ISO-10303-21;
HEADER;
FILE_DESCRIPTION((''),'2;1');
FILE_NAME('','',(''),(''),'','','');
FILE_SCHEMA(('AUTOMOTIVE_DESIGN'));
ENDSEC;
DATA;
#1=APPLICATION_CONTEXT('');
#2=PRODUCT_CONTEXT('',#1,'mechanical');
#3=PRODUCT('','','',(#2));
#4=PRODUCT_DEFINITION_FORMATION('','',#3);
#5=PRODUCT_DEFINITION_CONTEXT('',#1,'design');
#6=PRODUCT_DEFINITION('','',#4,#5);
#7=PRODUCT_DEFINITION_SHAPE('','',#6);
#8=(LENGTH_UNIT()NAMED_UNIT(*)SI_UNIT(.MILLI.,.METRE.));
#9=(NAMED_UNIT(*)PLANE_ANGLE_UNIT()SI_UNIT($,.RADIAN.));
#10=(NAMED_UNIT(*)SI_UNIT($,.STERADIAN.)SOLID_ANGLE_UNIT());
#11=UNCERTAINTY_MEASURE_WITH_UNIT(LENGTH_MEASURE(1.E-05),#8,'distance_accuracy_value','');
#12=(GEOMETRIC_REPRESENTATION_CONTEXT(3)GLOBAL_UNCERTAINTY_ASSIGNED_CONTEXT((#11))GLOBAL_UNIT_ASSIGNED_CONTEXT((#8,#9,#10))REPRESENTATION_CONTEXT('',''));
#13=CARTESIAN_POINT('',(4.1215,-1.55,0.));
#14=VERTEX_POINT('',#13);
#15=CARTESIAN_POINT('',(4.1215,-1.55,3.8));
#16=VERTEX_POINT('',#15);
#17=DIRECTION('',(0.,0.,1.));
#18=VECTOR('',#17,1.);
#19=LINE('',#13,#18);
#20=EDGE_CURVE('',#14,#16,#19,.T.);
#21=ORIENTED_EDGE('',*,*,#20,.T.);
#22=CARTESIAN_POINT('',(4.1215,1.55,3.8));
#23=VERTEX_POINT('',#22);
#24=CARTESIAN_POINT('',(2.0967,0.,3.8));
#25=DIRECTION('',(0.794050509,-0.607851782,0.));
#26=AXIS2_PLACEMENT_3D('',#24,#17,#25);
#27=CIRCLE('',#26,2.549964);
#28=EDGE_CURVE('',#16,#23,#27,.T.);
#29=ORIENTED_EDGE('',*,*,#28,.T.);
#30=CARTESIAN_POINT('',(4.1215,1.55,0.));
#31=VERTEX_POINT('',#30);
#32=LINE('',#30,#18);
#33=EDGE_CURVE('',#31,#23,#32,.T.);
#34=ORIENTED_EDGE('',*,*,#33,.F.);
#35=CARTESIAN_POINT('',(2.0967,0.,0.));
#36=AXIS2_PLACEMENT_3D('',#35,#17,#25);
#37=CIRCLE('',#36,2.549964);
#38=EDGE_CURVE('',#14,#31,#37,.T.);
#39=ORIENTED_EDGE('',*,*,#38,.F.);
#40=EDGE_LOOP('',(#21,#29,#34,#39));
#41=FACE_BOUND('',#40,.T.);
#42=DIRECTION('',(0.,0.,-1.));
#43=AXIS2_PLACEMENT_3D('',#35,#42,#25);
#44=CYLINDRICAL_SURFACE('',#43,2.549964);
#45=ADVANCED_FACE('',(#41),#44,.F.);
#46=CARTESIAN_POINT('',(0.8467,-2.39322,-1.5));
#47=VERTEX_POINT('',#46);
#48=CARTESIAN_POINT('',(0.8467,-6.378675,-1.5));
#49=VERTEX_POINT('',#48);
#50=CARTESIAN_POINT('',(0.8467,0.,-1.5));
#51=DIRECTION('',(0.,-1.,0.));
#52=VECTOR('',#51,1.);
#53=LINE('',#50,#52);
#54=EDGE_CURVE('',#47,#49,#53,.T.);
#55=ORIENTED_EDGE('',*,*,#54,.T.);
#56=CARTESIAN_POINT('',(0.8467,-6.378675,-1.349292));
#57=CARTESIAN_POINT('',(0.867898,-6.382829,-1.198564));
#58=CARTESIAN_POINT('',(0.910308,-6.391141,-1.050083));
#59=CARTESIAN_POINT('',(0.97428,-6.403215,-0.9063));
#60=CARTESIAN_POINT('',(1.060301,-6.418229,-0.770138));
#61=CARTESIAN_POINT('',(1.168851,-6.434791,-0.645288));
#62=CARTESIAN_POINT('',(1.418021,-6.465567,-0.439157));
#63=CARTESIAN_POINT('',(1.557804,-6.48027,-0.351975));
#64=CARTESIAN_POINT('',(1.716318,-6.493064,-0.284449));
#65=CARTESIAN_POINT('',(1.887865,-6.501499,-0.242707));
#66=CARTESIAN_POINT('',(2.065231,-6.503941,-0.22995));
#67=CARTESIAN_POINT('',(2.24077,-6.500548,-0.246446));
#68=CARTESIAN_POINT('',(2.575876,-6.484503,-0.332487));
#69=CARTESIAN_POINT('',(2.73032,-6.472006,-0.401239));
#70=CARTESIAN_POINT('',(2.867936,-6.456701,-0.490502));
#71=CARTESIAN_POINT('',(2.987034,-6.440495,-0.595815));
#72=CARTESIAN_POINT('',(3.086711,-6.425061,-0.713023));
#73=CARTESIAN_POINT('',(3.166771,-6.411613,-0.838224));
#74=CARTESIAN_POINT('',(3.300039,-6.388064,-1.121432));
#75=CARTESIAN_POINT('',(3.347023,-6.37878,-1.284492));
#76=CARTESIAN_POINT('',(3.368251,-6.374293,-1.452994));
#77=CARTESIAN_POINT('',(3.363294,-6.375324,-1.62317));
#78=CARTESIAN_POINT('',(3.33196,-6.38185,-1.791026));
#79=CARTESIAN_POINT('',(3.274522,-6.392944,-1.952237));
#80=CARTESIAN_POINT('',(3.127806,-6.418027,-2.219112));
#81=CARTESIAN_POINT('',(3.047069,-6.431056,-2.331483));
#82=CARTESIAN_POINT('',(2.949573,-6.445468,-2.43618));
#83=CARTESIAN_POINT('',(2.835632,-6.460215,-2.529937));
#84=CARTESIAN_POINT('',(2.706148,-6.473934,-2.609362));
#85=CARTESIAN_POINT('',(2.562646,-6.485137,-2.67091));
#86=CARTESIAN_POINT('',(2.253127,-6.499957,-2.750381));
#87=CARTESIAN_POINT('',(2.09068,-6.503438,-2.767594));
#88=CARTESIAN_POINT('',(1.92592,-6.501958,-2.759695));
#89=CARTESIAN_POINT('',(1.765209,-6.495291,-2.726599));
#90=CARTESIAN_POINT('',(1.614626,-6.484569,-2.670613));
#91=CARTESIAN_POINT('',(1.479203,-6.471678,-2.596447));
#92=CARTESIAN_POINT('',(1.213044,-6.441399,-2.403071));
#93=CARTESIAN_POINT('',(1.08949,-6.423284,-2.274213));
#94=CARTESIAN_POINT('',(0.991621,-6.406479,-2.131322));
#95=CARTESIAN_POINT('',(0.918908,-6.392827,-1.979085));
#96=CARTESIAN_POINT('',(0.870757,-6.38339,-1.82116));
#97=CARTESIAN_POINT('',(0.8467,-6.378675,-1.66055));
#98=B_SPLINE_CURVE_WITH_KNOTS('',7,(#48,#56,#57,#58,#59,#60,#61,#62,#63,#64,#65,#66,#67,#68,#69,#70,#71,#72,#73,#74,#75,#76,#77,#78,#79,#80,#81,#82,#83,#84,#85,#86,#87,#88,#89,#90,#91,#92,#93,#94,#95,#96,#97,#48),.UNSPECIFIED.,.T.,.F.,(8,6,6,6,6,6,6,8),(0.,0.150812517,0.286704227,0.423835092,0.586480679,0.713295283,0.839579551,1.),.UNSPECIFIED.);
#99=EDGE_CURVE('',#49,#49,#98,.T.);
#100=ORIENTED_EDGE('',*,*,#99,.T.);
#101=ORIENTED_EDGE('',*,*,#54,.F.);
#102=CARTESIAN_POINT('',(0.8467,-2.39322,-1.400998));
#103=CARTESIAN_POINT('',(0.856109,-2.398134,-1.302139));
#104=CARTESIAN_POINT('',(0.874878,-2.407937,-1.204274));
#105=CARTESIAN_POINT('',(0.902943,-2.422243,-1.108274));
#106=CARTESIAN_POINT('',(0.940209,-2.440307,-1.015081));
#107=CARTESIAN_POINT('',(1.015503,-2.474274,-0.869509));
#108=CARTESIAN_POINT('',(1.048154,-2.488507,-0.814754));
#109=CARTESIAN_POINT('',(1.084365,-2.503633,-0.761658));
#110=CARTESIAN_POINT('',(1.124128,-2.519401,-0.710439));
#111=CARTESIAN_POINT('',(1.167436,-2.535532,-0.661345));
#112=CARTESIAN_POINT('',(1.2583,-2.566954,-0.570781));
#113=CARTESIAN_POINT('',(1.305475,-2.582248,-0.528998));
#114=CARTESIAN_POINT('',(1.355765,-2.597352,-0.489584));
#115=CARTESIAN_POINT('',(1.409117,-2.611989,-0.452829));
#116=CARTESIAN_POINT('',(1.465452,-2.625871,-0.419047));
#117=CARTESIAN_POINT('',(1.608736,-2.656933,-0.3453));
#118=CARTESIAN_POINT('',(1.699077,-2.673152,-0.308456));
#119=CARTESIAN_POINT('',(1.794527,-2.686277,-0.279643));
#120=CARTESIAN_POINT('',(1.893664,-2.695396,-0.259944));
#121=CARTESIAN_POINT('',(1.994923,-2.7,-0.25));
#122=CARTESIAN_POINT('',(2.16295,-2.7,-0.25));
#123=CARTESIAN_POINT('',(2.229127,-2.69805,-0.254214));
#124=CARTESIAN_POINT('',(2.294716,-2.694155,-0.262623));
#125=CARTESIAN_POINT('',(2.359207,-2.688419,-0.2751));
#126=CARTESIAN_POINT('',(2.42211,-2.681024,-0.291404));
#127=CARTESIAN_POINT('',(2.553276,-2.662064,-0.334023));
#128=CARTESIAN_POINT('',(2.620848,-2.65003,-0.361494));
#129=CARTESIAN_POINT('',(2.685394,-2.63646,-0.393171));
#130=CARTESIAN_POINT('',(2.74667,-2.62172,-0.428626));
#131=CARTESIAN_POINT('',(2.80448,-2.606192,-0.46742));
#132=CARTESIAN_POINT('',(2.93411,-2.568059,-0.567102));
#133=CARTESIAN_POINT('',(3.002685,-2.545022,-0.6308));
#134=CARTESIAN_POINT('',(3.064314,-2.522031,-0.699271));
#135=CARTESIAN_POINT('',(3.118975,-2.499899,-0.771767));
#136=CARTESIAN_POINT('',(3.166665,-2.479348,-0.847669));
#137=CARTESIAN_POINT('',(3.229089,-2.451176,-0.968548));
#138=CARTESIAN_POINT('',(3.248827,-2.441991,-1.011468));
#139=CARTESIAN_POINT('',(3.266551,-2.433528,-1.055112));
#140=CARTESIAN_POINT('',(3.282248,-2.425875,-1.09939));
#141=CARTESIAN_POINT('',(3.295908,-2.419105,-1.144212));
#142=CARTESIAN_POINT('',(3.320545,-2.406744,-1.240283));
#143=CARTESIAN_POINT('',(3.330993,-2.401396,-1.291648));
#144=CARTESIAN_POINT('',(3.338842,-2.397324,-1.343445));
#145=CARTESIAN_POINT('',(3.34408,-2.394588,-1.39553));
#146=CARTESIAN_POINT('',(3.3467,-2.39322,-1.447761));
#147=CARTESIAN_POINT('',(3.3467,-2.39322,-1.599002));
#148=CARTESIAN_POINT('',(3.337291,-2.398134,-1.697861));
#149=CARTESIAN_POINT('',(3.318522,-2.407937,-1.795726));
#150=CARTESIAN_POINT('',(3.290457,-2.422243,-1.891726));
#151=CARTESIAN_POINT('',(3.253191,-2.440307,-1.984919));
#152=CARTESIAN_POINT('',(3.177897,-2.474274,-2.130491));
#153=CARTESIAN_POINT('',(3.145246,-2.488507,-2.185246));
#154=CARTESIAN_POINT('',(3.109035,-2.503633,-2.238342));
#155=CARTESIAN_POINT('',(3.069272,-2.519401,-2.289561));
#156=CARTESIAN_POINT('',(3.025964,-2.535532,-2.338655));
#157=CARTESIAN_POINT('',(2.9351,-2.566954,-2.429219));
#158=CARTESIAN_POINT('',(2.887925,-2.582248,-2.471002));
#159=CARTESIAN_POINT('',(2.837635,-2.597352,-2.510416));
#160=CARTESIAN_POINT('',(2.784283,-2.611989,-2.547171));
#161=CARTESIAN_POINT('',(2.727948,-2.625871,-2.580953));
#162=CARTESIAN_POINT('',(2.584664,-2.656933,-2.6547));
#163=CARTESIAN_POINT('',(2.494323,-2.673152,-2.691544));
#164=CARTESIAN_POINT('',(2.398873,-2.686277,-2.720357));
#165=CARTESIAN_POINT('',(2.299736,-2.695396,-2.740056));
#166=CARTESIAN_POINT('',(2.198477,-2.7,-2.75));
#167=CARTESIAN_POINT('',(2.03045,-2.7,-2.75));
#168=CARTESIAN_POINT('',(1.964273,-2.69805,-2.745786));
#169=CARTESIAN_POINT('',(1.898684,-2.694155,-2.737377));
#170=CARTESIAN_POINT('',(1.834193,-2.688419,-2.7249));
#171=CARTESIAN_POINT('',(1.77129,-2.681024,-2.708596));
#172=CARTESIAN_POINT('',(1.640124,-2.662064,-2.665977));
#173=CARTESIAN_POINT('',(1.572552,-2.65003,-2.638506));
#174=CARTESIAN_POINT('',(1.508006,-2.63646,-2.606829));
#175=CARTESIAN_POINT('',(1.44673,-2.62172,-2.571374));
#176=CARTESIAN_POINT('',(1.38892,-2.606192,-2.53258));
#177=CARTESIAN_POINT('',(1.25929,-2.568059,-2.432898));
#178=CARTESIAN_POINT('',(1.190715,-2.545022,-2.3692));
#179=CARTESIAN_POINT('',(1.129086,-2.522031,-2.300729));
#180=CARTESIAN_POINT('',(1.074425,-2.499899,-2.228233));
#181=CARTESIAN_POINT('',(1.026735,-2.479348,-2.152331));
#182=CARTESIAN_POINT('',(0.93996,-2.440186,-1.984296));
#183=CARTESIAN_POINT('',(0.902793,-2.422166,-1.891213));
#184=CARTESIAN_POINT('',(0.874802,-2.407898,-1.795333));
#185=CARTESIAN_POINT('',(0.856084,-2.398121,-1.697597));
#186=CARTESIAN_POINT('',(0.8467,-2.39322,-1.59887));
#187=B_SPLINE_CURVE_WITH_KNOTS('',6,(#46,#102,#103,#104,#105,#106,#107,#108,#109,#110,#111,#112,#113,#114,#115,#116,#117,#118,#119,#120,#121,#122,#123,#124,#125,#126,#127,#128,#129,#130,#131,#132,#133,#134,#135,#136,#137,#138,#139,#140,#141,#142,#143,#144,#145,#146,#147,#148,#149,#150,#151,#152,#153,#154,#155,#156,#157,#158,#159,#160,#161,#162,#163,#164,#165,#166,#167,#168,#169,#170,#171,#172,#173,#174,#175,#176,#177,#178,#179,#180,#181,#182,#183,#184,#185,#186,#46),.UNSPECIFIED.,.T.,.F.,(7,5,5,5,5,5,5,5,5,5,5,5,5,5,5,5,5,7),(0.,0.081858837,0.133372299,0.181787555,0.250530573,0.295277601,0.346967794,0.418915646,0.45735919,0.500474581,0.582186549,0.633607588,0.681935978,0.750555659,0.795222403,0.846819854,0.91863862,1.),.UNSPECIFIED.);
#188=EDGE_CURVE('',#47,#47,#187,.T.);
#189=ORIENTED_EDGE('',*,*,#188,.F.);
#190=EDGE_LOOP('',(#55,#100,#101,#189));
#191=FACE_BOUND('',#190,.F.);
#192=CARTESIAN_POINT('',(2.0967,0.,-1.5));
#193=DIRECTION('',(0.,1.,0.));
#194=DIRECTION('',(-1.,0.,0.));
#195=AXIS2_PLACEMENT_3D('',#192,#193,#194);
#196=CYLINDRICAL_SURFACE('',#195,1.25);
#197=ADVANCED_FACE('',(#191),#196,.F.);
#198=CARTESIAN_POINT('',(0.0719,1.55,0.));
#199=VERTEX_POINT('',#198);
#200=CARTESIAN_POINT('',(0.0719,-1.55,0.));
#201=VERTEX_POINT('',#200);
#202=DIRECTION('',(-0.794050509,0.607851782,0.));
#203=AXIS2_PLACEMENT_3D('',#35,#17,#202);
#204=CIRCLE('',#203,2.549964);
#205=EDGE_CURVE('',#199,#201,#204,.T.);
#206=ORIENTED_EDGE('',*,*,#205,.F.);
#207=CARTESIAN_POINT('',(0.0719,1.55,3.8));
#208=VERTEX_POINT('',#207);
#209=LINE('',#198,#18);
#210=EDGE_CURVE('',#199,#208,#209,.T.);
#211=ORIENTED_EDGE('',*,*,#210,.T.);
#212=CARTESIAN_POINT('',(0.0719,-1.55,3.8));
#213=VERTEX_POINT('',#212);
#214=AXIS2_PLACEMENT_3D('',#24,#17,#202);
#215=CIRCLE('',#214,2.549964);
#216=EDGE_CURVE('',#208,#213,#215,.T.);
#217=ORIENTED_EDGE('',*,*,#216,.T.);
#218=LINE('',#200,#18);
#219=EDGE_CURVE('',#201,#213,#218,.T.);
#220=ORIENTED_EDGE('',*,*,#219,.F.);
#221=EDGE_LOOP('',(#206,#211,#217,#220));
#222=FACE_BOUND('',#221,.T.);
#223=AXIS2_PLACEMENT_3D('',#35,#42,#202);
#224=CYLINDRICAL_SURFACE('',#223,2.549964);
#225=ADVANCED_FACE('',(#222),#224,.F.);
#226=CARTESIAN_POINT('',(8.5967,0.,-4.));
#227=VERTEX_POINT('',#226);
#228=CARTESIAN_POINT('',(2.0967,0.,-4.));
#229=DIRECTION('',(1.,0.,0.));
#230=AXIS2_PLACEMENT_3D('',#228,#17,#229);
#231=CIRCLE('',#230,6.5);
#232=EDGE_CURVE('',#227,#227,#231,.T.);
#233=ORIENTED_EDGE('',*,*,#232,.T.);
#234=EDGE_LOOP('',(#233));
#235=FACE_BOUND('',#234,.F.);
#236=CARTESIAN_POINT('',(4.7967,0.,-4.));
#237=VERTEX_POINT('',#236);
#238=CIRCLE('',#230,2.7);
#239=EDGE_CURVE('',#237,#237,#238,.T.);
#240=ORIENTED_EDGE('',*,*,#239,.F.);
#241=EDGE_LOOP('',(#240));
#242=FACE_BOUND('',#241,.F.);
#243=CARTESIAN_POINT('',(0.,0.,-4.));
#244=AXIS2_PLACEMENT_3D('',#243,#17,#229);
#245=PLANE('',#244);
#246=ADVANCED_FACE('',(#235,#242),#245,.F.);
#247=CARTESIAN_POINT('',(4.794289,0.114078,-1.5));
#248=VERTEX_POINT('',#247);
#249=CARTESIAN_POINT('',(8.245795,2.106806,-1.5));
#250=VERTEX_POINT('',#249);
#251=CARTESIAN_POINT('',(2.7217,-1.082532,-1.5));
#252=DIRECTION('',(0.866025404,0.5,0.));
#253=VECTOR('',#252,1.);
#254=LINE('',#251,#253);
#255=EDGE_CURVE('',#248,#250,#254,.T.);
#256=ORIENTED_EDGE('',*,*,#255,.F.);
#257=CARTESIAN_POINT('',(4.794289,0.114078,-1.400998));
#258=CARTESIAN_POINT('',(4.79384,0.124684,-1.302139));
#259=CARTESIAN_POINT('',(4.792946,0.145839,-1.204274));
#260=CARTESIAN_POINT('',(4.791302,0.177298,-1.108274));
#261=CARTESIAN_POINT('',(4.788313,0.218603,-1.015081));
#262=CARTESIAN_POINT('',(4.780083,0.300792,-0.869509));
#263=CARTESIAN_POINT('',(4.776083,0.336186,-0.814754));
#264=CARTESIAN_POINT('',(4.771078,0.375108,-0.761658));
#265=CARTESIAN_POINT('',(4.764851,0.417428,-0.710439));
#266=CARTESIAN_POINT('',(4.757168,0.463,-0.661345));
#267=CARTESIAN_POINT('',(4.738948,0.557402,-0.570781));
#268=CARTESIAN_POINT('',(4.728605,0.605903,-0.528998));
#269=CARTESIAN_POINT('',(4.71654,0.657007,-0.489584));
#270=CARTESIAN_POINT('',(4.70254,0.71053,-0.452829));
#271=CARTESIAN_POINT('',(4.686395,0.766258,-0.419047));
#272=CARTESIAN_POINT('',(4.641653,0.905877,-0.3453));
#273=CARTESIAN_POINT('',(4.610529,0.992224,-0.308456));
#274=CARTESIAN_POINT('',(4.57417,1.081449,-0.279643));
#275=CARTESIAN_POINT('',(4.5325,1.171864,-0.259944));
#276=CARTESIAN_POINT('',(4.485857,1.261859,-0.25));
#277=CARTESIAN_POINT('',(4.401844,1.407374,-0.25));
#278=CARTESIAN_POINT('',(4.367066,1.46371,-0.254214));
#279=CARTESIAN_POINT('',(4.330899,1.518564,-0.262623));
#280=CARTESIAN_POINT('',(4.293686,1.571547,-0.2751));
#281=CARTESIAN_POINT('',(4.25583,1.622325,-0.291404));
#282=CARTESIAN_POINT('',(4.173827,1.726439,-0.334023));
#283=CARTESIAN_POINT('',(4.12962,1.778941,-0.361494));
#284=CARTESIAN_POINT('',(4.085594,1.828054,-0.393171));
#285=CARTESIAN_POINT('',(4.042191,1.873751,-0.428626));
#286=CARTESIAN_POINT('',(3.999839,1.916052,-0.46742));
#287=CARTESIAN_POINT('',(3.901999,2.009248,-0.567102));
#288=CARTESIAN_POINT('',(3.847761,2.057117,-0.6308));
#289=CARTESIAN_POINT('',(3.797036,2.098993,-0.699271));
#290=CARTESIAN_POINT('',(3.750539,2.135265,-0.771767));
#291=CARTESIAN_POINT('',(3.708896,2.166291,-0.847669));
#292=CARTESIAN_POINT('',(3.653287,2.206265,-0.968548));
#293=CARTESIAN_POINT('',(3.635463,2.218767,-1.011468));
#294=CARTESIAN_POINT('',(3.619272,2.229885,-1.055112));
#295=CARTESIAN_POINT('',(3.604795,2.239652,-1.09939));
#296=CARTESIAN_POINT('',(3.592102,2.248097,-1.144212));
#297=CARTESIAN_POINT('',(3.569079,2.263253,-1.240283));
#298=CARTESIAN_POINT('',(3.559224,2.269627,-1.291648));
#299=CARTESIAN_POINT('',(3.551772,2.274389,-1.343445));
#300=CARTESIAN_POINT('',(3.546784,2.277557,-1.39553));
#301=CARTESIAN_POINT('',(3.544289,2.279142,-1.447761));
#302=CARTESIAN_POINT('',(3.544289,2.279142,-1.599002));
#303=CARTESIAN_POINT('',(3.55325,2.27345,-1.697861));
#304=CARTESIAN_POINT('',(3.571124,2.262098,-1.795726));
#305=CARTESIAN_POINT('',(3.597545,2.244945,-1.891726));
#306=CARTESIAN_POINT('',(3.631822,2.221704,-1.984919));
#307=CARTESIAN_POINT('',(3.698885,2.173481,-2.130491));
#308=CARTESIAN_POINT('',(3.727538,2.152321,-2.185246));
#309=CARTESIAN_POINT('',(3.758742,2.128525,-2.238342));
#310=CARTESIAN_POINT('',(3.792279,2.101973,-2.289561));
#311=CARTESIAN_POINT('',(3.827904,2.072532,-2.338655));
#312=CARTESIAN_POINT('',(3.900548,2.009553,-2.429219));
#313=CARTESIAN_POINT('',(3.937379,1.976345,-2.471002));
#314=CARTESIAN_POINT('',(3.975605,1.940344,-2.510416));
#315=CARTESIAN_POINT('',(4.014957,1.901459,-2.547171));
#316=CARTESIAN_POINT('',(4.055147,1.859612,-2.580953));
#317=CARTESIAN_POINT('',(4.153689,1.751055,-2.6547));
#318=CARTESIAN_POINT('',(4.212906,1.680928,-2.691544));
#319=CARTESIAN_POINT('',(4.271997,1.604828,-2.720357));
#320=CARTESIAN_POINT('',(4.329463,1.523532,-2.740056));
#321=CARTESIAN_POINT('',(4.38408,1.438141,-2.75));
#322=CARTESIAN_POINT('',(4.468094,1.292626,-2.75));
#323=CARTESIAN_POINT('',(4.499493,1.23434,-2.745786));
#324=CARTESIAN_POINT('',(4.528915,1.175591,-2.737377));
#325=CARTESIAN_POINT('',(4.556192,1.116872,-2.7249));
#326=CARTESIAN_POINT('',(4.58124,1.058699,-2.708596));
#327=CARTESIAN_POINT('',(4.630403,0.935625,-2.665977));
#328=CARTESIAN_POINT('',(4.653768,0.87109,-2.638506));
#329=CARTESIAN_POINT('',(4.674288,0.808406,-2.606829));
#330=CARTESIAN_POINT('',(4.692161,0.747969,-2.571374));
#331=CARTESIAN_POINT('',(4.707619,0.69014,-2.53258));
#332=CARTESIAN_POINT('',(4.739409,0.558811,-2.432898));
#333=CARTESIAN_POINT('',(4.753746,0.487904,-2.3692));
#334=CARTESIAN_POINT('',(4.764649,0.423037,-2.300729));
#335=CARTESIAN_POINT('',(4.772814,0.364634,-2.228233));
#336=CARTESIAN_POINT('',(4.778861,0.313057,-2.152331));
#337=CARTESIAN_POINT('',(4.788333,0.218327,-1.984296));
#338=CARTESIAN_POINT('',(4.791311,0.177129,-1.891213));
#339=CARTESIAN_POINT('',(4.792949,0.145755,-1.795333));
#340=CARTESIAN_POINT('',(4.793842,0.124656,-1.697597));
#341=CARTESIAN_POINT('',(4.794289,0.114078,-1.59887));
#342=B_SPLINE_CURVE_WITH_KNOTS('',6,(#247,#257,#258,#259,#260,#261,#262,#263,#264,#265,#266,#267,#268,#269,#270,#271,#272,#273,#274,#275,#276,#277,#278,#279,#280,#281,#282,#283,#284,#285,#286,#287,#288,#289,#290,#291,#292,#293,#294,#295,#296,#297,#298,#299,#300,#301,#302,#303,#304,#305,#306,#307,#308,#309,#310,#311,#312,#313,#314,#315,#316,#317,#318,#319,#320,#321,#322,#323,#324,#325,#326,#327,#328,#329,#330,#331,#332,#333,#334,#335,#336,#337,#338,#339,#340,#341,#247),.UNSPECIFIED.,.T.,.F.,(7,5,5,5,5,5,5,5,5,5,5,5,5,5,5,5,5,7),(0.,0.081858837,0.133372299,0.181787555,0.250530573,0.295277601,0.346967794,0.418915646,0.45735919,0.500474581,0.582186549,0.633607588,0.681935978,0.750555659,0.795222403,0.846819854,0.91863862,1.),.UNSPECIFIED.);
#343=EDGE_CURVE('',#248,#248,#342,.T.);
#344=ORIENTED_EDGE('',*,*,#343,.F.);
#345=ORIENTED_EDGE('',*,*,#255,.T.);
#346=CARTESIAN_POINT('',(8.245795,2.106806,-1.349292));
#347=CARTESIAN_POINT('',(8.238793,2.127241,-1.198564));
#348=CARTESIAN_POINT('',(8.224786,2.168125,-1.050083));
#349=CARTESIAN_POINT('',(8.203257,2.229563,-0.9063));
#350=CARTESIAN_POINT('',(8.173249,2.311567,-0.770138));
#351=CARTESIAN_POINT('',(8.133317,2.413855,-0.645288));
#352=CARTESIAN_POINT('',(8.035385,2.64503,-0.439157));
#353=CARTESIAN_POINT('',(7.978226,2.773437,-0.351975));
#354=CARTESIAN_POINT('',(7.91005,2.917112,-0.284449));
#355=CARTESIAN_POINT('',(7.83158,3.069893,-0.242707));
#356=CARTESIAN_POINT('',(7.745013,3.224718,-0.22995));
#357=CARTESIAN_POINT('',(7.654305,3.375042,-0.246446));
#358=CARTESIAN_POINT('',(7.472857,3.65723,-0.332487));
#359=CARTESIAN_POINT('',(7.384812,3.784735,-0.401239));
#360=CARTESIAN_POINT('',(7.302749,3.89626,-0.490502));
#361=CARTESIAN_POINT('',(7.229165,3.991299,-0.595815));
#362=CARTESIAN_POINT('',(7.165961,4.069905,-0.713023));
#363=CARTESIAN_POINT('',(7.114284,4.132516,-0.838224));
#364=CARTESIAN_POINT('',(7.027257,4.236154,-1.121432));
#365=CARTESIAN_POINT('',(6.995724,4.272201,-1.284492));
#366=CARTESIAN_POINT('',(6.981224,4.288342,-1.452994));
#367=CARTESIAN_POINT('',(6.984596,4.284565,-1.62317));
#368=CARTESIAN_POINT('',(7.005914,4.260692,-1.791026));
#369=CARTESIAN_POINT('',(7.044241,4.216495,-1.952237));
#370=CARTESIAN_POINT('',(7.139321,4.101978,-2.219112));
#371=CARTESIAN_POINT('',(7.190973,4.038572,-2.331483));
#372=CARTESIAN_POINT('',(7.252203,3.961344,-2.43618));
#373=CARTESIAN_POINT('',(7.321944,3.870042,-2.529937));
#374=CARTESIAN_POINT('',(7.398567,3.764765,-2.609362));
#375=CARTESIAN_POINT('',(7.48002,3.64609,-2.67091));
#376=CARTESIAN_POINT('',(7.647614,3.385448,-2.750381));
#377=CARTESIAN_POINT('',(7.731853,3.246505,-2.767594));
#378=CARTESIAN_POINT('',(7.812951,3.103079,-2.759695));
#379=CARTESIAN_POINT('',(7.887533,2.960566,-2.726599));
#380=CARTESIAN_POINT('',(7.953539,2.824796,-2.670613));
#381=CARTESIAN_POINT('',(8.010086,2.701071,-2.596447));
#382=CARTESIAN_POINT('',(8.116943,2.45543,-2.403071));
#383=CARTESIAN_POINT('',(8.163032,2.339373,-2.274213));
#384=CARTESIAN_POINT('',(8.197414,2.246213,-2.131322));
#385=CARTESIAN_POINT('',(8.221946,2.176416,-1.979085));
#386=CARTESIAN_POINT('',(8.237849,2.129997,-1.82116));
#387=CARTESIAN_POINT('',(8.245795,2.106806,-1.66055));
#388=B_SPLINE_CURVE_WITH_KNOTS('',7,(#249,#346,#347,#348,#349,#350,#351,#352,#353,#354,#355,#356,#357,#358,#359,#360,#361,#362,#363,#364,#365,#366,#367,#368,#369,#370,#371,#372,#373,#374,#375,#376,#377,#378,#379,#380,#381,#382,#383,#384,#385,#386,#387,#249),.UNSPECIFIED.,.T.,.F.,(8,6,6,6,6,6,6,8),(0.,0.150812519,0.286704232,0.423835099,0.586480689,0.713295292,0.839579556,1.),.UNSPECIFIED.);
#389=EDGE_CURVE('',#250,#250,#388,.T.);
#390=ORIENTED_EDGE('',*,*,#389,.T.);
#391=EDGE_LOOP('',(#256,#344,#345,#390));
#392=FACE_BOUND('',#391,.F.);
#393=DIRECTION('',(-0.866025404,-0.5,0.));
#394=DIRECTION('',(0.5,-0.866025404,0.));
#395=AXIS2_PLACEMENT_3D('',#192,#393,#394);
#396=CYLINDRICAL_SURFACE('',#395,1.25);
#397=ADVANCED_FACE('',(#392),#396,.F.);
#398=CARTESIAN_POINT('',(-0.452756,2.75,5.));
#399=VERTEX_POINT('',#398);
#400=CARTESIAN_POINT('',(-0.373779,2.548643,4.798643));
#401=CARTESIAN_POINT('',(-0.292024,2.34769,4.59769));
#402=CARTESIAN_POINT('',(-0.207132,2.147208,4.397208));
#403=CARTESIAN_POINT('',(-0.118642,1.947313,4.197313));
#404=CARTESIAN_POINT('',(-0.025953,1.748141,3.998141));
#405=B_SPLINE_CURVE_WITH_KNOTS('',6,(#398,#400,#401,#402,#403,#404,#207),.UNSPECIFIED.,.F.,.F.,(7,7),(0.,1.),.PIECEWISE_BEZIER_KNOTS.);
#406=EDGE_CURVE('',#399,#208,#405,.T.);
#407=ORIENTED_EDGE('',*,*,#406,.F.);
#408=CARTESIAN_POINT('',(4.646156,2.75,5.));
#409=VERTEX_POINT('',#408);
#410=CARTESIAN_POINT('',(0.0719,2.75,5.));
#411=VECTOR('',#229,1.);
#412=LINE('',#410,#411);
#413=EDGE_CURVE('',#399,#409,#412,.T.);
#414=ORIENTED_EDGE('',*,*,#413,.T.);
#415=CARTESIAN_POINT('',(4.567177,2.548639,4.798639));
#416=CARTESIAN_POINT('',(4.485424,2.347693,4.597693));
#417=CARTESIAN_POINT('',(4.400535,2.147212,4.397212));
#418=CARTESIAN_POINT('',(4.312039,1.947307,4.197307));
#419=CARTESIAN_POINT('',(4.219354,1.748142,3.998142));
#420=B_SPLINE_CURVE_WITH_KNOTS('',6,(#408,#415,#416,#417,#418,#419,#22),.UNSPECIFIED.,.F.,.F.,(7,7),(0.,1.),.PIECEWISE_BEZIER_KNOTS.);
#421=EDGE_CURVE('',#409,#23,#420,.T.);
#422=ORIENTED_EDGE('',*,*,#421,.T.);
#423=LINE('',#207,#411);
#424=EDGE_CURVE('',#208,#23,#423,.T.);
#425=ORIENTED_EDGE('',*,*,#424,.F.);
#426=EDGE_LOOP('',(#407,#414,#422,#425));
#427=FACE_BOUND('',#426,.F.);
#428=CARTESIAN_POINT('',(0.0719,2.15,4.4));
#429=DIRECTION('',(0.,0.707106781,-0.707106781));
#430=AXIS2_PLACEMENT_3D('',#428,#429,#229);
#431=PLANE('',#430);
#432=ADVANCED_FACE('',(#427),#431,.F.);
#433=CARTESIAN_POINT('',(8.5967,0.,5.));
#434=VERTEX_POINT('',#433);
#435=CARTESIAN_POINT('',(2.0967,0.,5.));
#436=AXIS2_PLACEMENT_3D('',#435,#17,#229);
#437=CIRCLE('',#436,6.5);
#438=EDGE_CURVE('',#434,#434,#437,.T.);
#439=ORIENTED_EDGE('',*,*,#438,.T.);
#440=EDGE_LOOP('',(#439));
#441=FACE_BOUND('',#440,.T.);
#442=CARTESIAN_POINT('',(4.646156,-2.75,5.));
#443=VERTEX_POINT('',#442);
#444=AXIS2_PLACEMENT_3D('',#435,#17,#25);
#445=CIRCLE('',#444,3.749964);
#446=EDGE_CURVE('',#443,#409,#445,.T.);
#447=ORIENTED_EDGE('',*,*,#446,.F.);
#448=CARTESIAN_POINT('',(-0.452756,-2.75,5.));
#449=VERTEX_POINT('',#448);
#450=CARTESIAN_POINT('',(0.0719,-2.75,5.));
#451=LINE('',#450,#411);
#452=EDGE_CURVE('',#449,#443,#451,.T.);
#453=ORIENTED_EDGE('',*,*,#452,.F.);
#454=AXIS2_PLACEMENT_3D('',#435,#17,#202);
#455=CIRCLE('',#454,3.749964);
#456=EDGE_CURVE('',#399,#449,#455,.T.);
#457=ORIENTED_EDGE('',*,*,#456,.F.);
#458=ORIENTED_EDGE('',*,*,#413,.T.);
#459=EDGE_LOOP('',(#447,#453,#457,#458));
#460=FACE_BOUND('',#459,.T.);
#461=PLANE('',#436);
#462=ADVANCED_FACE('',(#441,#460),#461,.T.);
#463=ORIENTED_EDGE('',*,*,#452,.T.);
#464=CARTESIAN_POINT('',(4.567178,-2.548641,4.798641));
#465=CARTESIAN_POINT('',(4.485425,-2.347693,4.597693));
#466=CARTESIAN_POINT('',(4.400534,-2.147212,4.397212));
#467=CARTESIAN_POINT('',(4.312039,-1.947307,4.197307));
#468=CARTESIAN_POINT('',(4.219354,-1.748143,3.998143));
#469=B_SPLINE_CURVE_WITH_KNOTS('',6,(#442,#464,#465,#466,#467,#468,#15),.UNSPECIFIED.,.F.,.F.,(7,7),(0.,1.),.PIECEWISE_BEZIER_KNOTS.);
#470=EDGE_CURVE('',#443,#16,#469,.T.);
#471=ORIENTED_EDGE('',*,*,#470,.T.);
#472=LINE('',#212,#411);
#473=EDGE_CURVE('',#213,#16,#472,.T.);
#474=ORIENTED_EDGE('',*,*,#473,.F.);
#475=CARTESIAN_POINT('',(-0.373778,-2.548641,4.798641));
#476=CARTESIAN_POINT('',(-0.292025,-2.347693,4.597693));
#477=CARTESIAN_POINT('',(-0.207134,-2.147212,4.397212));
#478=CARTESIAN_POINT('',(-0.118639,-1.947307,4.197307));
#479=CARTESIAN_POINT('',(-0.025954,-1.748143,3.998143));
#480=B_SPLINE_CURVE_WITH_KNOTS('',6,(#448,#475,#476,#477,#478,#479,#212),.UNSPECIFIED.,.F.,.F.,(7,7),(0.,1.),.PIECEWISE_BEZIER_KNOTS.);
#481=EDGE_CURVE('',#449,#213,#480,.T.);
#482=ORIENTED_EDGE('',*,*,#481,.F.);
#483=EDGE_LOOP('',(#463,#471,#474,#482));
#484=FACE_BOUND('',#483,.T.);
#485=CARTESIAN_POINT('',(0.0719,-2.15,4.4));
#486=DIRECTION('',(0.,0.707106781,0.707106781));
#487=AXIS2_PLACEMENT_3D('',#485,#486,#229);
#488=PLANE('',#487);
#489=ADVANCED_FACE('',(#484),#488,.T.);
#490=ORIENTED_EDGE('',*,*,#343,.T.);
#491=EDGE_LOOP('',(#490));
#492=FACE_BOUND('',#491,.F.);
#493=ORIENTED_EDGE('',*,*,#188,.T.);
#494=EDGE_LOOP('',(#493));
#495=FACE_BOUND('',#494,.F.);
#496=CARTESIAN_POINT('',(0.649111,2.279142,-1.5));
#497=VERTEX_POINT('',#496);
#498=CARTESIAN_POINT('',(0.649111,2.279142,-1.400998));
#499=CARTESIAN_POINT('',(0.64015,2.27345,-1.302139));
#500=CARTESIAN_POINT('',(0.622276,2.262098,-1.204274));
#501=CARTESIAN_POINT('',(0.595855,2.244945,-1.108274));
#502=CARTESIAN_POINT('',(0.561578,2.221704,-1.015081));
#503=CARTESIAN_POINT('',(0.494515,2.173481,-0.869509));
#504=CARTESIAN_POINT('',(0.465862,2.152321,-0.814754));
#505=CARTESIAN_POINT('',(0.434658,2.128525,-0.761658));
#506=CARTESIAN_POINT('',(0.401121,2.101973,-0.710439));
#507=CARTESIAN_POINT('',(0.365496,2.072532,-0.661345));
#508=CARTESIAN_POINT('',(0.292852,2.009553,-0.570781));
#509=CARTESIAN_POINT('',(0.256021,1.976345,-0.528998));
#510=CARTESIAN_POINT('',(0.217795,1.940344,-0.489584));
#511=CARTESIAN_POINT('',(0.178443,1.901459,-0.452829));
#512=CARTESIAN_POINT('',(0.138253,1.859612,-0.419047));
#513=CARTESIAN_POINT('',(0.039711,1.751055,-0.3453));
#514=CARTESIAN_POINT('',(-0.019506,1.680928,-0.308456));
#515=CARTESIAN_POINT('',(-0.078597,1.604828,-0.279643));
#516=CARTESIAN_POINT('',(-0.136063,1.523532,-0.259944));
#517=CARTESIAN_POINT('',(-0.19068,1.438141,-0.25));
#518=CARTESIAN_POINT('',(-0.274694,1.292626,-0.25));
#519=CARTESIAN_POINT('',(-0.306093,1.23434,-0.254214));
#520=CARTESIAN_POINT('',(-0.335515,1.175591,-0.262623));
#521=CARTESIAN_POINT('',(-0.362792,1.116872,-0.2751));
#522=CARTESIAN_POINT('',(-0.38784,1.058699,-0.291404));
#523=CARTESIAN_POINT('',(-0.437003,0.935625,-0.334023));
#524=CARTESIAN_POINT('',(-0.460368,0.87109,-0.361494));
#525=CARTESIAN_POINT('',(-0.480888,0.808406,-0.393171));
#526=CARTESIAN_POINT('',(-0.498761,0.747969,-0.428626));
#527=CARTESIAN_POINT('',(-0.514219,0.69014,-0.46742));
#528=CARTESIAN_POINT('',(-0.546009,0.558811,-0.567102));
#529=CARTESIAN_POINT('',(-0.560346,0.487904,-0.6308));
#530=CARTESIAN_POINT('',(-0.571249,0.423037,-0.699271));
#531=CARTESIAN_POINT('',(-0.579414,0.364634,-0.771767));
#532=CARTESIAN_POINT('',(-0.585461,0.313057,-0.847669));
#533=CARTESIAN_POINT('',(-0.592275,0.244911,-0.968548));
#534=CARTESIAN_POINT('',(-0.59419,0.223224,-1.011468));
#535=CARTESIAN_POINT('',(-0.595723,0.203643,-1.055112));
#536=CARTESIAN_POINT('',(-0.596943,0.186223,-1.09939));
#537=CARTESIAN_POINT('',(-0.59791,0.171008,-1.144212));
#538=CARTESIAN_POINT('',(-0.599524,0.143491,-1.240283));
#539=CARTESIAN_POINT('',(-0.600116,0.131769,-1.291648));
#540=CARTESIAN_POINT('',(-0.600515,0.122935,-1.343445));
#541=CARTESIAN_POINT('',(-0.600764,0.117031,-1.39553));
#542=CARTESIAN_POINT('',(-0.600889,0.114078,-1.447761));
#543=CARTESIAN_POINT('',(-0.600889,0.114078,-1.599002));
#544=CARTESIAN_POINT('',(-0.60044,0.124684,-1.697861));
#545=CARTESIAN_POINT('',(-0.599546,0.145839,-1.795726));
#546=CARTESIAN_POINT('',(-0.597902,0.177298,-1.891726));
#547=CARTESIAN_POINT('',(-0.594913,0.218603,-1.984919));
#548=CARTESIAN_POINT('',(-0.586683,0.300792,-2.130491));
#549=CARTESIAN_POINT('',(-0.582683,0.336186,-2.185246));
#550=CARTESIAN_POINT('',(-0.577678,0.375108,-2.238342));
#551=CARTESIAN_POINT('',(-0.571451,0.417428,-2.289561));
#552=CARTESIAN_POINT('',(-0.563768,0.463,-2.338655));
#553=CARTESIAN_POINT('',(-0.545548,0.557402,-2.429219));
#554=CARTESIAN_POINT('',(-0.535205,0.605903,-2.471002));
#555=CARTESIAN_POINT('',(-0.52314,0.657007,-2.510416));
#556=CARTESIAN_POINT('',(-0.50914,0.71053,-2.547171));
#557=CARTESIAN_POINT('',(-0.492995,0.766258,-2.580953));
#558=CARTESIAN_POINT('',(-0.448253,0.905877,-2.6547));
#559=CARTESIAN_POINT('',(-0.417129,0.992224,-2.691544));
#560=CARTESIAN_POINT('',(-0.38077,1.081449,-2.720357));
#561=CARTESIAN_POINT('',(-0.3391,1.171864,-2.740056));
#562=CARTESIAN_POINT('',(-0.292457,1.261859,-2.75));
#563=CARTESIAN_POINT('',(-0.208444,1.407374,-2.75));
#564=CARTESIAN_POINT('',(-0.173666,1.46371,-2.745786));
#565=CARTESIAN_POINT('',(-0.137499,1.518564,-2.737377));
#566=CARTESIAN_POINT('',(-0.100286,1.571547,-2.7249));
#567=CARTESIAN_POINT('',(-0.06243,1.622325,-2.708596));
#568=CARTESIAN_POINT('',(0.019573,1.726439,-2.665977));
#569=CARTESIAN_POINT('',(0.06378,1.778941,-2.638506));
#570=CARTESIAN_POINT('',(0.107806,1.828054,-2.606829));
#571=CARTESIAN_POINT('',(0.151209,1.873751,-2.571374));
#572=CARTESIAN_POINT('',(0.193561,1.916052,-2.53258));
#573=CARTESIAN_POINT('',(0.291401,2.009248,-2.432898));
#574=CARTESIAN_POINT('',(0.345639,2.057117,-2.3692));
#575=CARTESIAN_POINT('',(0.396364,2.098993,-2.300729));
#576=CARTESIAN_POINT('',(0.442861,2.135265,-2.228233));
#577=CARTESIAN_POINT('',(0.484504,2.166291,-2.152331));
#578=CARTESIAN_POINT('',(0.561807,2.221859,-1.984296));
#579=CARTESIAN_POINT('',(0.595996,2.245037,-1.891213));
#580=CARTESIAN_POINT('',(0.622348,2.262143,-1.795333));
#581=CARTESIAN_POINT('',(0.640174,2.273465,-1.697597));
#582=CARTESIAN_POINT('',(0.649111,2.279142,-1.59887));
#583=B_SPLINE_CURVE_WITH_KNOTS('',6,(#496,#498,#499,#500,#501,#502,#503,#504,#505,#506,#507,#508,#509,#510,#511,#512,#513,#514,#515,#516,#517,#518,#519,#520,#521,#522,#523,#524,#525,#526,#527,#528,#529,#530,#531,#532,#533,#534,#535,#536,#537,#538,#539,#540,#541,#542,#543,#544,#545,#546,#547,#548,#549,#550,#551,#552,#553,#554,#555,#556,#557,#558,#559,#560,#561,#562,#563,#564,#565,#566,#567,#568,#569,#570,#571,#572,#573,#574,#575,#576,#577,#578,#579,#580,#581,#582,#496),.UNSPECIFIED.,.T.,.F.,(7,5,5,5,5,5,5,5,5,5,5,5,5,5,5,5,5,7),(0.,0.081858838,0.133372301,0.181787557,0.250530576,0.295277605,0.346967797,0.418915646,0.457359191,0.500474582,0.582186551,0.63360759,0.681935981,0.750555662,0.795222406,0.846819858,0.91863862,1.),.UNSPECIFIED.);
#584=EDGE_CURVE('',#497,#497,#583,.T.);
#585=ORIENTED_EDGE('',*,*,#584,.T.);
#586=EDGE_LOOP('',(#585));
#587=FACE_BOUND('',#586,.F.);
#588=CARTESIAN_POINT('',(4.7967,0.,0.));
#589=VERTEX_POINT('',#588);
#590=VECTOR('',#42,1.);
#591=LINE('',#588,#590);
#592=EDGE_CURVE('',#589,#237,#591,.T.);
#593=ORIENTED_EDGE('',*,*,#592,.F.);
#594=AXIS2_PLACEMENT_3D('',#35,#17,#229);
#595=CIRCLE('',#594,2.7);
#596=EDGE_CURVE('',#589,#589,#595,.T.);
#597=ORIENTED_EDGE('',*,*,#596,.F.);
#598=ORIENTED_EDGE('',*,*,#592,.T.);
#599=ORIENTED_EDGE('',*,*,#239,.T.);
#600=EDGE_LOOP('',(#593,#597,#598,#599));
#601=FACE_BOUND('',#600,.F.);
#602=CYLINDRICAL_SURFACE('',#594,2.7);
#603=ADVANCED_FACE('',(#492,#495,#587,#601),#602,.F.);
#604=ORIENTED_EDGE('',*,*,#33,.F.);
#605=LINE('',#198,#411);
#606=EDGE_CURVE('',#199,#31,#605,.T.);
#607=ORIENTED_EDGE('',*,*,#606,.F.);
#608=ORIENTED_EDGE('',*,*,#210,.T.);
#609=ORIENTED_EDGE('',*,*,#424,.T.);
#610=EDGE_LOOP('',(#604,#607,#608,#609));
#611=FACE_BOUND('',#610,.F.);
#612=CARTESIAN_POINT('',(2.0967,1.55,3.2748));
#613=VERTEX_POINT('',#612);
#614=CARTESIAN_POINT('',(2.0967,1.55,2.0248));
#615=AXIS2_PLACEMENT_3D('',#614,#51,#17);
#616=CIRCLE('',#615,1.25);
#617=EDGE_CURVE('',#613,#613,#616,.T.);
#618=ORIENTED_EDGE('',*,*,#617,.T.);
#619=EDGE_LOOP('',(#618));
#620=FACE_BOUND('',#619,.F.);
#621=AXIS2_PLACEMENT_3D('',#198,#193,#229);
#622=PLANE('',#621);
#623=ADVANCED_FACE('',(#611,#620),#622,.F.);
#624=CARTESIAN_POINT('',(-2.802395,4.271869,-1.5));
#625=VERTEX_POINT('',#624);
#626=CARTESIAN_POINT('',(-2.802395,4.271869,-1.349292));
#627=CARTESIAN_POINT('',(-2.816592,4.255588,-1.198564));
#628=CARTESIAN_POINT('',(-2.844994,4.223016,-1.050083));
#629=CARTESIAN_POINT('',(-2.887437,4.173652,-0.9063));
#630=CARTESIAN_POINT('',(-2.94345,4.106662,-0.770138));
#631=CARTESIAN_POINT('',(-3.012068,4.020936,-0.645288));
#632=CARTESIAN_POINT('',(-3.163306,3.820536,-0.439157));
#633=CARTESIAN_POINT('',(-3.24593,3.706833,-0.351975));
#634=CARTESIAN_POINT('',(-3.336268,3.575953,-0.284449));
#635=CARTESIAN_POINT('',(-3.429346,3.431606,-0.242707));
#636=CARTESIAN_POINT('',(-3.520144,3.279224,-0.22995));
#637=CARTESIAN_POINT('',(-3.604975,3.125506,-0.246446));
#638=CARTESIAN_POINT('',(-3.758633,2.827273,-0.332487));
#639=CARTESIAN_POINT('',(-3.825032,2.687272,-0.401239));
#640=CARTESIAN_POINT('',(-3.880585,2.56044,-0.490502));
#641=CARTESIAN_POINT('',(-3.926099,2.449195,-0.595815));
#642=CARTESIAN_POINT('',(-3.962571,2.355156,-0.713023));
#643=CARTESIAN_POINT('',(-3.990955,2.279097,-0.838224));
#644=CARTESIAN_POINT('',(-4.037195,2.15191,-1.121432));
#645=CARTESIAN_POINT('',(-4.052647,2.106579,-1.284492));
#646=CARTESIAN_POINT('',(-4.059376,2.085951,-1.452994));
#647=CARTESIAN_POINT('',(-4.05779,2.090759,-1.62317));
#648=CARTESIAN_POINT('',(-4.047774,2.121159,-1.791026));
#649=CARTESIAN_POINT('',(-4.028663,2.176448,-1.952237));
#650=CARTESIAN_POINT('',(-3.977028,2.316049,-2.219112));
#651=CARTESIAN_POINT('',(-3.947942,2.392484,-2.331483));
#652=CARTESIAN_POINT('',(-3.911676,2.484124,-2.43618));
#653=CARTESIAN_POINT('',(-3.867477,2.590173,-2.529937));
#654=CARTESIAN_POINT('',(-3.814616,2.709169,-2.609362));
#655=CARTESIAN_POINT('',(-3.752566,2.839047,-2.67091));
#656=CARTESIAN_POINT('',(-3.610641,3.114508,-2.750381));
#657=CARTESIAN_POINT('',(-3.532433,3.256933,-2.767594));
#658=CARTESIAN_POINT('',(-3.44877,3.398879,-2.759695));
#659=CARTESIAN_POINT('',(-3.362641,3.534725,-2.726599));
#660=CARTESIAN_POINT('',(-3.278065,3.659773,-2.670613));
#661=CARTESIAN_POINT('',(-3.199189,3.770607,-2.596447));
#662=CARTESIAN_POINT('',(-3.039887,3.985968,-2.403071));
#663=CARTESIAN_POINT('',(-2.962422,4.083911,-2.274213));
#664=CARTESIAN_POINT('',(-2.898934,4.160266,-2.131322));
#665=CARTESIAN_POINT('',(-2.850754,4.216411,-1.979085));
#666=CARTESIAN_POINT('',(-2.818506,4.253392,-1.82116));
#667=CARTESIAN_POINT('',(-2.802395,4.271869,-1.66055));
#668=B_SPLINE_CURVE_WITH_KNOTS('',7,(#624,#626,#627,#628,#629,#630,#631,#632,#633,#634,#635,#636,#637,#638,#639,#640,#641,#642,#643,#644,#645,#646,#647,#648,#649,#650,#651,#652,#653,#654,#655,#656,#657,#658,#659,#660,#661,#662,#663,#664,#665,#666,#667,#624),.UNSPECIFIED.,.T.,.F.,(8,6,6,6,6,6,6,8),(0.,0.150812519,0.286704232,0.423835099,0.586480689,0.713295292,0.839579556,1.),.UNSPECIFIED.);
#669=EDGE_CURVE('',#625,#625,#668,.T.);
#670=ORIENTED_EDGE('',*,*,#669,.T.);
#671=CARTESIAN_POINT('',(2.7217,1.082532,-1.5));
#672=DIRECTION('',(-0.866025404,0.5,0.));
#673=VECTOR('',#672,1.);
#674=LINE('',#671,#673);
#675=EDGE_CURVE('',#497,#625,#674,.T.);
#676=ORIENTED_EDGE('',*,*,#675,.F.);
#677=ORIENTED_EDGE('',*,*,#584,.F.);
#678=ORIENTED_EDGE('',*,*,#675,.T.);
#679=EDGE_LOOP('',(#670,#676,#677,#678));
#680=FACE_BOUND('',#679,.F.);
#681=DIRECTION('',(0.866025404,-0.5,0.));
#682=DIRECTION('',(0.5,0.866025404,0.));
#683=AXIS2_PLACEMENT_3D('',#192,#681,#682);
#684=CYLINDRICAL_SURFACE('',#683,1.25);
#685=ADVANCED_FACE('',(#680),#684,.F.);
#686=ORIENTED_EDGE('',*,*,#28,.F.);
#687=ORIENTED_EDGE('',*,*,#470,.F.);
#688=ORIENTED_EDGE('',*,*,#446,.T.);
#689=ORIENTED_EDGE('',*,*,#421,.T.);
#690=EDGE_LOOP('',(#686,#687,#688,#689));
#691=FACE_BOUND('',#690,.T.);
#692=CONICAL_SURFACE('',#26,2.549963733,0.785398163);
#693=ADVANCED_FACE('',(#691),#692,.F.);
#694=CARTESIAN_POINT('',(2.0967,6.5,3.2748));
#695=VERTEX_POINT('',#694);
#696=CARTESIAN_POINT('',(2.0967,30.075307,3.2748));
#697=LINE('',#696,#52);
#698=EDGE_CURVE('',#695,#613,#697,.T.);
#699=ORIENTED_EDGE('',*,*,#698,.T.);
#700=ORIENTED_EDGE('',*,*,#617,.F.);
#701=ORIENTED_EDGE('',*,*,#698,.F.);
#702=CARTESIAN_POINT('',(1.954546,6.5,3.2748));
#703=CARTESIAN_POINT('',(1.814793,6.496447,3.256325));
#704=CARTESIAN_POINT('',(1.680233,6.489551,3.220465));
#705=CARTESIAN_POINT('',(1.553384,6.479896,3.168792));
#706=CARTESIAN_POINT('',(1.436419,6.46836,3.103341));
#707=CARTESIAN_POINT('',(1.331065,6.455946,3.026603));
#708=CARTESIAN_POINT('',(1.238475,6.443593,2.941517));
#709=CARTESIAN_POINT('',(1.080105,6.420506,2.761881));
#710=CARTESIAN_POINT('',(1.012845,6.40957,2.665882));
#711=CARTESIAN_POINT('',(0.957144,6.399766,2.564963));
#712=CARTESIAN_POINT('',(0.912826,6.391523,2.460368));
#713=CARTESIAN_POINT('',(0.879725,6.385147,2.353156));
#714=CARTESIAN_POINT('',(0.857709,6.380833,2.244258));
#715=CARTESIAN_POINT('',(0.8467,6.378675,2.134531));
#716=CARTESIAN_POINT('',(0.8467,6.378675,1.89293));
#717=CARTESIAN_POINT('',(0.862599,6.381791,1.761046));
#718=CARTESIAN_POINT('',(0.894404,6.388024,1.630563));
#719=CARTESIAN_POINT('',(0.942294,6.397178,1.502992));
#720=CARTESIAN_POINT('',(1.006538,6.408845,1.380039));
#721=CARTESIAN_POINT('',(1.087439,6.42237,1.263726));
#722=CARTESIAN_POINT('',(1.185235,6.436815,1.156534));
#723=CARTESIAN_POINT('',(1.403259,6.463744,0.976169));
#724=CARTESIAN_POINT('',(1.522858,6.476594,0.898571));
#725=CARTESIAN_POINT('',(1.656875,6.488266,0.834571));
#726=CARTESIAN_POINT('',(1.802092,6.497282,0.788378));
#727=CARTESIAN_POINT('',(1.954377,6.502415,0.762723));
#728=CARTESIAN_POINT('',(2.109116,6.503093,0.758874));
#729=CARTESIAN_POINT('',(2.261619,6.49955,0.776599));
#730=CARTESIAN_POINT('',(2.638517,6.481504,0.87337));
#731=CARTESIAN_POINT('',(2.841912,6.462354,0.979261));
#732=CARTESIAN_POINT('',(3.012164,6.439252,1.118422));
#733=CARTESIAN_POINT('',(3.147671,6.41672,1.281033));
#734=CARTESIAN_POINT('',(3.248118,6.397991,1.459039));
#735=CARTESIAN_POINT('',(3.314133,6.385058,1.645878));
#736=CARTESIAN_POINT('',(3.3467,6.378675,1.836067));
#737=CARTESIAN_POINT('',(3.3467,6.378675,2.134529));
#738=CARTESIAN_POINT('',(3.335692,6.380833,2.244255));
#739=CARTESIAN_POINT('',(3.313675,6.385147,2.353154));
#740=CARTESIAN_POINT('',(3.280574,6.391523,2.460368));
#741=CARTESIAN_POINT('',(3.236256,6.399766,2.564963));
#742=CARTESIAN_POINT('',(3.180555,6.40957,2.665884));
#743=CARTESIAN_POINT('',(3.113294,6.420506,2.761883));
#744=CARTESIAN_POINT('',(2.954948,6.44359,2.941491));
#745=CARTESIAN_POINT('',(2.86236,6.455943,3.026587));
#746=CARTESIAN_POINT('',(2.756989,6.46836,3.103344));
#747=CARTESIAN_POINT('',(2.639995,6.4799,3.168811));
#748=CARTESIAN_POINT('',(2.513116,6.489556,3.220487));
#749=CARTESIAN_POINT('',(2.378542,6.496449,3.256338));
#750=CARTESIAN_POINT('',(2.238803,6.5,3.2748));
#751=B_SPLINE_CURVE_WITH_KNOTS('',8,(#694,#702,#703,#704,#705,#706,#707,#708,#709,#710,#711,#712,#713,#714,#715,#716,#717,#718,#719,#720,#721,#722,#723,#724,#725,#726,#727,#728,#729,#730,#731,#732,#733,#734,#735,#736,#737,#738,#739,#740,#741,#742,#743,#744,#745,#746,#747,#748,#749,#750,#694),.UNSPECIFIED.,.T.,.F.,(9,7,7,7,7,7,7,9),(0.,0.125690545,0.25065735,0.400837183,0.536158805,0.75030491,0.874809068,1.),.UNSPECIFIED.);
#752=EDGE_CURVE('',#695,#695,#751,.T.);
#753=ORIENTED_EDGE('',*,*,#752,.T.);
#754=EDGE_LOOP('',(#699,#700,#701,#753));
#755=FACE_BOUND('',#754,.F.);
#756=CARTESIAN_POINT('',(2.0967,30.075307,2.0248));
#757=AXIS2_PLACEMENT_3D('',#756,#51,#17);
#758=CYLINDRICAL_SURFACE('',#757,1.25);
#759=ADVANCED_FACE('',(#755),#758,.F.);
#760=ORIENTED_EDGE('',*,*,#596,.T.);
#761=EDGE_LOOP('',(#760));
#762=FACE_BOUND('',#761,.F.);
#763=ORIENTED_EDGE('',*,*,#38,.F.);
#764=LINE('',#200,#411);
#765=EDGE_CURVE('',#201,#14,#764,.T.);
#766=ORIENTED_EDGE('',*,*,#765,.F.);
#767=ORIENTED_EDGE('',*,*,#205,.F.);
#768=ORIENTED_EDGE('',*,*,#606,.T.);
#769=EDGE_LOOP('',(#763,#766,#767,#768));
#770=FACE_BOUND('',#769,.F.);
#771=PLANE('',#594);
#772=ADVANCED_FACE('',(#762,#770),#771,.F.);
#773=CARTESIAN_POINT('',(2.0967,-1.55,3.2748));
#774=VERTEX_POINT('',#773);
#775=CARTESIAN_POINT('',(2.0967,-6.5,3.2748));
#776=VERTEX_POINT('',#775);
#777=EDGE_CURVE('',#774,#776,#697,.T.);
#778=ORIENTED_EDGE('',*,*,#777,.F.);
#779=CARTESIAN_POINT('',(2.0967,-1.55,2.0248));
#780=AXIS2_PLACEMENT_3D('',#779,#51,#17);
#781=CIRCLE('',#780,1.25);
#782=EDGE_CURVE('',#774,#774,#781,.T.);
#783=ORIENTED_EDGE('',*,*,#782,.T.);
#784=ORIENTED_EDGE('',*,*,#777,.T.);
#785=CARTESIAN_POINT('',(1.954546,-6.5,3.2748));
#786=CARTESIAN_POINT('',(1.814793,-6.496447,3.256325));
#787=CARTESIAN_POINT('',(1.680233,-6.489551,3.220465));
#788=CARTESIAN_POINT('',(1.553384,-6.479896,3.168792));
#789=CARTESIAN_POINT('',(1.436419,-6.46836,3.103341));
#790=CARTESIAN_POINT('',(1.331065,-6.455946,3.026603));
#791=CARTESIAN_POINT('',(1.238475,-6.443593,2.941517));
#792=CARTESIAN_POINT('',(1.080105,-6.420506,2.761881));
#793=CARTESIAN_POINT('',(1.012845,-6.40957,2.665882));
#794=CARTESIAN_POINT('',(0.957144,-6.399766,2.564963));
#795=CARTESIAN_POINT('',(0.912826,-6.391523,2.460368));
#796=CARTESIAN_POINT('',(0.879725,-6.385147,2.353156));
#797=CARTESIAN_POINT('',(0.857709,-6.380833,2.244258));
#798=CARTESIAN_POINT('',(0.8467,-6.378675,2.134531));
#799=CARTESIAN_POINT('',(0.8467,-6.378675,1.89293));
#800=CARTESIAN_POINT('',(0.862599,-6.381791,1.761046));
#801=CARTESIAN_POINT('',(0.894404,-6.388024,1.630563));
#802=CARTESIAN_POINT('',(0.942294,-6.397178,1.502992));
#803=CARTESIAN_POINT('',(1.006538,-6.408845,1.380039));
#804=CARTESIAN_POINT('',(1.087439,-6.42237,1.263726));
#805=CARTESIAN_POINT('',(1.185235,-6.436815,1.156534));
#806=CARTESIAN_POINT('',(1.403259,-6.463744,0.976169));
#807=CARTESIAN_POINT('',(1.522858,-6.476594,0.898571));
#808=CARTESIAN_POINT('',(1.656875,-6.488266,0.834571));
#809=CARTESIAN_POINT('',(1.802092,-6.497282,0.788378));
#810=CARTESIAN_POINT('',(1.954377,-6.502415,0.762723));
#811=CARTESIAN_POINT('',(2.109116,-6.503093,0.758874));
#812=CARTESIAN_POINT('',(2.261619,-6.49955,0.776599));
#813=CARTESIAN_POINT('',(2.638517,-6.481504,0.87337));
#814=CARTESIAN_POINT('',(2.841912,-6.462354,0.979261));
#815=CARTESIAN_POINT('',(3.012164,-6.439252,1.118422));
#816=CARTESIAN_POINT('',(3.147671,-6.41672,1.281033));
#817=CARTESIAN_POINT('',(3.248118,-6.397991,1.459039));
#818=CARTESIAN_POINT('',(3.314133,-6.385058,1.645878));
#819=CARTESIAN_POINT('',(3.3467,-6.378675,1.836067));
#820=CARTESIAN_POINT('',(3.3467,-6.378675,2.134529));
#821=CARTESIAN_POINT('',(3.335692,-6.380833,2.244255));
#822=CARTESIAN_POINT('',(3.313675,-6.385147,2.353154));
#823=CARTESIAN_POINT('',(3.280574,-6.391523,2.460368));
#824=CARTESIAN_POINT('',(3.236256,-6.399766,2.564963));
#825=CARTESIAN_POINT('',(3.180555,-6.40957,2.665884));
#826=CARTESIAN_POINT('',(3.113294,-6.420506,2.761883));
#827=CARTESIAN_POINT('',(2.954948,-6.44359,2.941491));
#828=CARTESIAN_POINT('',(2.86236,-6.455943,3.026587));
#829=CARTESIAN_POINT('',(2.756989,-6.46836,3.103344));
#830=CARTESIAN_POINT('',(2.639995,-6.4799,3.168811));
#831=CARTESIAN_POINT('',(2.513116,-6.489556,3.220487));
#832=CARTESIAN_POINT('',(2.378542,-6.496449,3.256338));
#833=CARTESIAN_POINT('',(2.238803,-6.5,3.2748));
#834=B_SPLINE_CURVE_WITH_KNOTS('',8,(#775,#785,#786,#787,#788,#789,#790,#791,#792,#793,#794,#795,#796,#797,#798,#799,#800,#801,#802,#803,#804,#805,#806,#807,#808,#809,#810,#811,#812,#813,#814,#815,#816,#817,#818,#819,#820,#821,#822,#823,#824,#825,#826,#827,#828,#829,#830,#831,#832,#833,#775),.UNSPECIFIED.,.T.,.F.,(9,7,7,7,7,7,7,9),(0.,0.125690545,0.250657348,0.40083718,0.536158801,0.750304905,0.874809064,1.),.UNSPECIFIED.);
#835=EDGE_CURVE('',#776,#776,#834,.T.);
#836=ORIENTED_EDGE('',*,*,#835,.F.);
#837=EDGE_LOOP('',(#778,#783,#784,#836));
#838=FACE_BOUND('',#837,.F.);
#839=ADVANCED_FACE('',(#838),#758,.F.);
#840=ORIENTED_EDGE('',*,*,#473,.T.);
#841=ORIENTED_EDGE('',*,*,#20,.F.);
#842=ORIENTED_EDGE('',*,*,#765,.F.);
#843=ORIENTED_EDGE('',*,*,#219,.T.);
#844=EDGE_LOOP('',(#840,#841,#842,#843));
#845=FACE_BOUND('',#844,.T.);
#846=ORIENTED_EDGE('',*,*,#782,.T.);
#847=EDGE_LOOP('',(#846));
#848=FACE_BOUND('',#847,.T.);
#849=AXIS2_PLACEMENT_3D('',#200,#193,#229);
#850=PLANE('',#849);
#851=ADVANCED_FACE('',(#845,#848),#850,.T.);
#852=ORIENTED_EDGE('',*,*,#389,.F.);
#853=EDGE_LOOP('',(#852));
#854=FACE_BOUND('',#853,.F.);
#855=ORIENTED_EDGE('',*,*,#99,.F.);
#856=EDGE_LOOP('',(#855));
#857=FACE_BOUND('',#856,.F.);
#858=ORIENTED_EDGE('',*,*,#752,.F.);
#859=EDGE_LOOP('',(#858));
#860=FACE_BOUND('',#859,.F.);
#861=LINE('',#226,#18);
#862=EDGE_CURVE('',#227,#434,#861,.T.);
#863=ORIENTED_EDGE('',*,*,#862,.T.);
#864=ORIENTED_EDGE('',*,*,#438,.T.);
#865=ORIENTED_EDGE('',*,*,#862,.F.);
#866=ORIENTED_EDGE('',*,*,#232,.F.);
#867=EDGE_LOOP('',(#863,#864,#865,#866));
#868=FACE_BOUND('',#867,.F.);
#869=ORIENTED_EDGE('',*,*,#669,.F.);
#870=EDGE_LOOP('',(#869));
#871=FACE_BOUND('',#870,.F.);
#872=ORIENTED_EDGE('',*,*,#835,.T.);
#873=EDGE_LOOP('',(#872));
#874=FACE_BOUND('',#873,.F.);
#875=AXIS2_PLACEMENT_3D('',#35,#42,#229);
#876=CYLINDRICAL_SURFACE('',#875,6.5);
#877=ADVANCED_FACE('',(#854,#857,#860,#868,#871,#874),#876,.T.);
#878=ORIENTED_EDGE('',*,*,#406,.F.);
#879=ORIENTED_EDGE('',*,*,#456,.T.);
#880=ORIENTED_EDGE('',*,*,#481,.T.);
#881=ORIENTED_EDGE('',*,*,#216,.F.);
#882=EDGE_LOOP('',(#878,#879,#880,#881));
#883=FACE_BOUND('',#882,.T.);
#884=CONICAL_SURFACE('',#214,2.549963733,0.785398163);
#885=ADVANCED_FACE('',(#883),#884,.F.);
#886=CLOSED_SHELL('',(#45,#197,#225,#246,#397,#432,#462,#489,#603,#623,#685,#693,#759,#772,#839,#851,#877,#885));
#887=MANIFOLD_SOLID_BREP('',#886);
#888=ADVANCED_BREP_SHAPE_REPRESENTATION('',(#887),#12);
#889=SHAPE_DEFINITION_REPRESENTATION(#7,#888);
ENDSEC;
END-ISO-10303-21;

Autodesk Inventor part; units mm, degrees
ref_plane "YZ Plane" through (0, 0, 0) normal (1, 0, 0) x (0, 1, 0)
ref_plane "XZ Plane" through (0, 0, 0) normal (0, 1, 0) x (-1, 0, 0)
sketch "Sketch1" plane through (0, 0, 0) normal (0, 0, 1) x (1, 0, 0)
  line L0 (0.8467, -0.7217) -> (0.8467, 0.7217) construction
  line L1 (0.8467, 0.7217) -> (2.0967, 1.4434) construction
  line L2 (2.0967, 1.4434) -> (3.3467, 0.7217) construction
  line L3 (3.3467, 0.7217) -> (3.3467, -0.7217) construction
  line L4 (3.3467, -0.7217) -> (2.0967, -1.4434) construction
  line L5 (2.0967, -1.4434) -> (0.8467, -0.7217) construction
  circle A0 centre (2.0967, 0) radius 2.45 construction
  line L6 (4.8467, -1.5877) -> (3.4717, -2.3816) construction
  line L7 (15.0967, 3) -> (15.0967, -3) construction
  line L8 (-10.9033, 3) -> (-10.9033, -3) construction
  line L9 (-0.6533, 0) -> (-0.6533, 1.5877) construction
  circle A1 centre (2.0967, 0) radius 5
  circle A2 centre (2.0967, 0) radius 1.7 projected
  line L10 (-10.9033, -3) -> (15.0967, -3) projected
  line L11 (-10.9033, 3) -> (15.0967, 3) projected
  circle A3 centre (2.0967, 0) radius 2.7
  circle A4 centre (2.0967, 0) radius 6.5
  circle A5 centre (2.0967, 0) radius 2.75
  point P0 (0.4719, -0.5)
  point P1 (3.7215, -0.5)
  dimension "d10" = 5.4
  dimension "d13" = 13
ref_plane "Work Plane1" through (-20.8033, -6.3, -5.9) normal (0, 0, 1) x (1, 0, 0)
extrude "Extrusion1" add sketch "Sketch1" against normal blind 4 contours A1 L10 L11 | A1 L11 A4 L10 | L11 A1 | A1 L11 A4 | L10 A4 A1 | A1 L10 | A1 L10 A4 L11 | A5
sketch "Sketch2" plane through (2.0967, 0, 0) normal (0, 0, 1) x (1, 0, 0)
  line L0 (-2, 1.5) -> (2, 1.5) construction
  arc A0 (2.5, 0) -> (2, 1.5) centre (0, 0) ccw construction
  arc A1 (-2, 1.5) -> (-2.5, 0) centre (0, 0) ccw construction
  line L1 (2, -1.5) -> (-2, -1.5) construction
  arc A2 (-2.5, 0) -> (2.5, 0) centre (0, 0) ccw construction
  line L2 (2.0248, 1.55) -> (-2.0248, 1.55) construction
  arc A3 (-2.0248, 1.55) -> (-2.55, 0) centre (0, 0) ccw construction
  arc A4 (-2.55, 0) -> (2.55, 0) centre (0, 0) ccw construction
  arc A5 (2.55, 0) -> (2.0248, 1.55) centre (0, 0) ccw construction
  line L3 (-2.0248, 1.55) -> (2.0248, 1.55) construction
  line L4 (-2.0248, 1.55) -> (2.0248, 1.55)
  line L5 (-2.0248, -1.55) -> (2.0248, -1.55)
  arc A6 (-2.0248, 1.55) -> (-2.0248, -1.55) centre (0, 0) ccw
  arc A7 (2.0248, -1.55) -> (2.0248, 1.55) centre (0, 0) ccw
  circle A8 centre (0, 0) radius 6.5 projected
  point P0 (-2.0967, 0)
  dimension "d11" = 3.1
  dimension "d12" = 2.55
extrude "Extrusion2" add sketch "Sketch2" along normal blind 5
chamfer "Chamfer1" distance 1.2 angle 45 4 edges at (2.0967, 1.55, 5) (-0.4533, 0, 5) (2.0967, -1.55, 5) (4.6467, 0, 5)
sketch "Sketch3" plane through (0, 0, 0) normal (0, 1, 0) x (-1, 0, 0)
  line L0 (-4.6467, 0) -> (-4.6467, 3.8) projected
  line L1 (0.4533, 0) -> (0.4533, 3.8) projected
  line L2 (-8.5967, -4) -> (4.4033, -4) projected
  circle A0 centre (-2.0967, -1.5) radius 1.25
  line L3 (-8.5967, -4) -> (4.4033, -4) projected
  point P0 (0, 0)
  point P1 (-8.5967, 0)
  point P2 (4.4033, 0)
  dimension "d14" = 2.5
  dimension "d15" = 2.5
extrude "Extrusion3" cut sketch "Sketch3" against normal blind 10
pattern_circular "Circular Pattern1" count 3 over 360 about axis through (2.0967, 0, 0) along (0, 0, -1) of "Extrusion3"
sketch "Sketch4" plane through (0.0718, -1.55, 0) normal (0, 1, 0) x (1, 0, 0)
  line L0 (0, -3.8) -> (4.0497, -3.8) projected
  line L1 (-4.4752, -5) -> (8.5248, -5) projected
  line L2 (8.5248, 4) -> (-4.4752, 4) projected
  line L3 (4.0497, -3.8) -> (0, -3.8) projected
  line L4 (4.0497, 0) -> (4.0497, -3.8) projected
  line L5 (0, 0) -> (4.0497, 0) projected
  line L6 (0, 0) -> (0, -3.8) projected
  circle A0 centre (2.0248, -2.0248) radius 2.0248
  point P0 (-0.0718, 0)
  point P1 (8.1739, 1.5)
  point P2 (-2.8742, 1.5)
  point P3 (0.7748, 1.5)
hole "Hole1" at (2.0967, -1.55, 2.0248) direction (0, -1, 0) diameter 2.5 end through all both
properties part number "30_Coupling_Screw_28BYJ_M3"
